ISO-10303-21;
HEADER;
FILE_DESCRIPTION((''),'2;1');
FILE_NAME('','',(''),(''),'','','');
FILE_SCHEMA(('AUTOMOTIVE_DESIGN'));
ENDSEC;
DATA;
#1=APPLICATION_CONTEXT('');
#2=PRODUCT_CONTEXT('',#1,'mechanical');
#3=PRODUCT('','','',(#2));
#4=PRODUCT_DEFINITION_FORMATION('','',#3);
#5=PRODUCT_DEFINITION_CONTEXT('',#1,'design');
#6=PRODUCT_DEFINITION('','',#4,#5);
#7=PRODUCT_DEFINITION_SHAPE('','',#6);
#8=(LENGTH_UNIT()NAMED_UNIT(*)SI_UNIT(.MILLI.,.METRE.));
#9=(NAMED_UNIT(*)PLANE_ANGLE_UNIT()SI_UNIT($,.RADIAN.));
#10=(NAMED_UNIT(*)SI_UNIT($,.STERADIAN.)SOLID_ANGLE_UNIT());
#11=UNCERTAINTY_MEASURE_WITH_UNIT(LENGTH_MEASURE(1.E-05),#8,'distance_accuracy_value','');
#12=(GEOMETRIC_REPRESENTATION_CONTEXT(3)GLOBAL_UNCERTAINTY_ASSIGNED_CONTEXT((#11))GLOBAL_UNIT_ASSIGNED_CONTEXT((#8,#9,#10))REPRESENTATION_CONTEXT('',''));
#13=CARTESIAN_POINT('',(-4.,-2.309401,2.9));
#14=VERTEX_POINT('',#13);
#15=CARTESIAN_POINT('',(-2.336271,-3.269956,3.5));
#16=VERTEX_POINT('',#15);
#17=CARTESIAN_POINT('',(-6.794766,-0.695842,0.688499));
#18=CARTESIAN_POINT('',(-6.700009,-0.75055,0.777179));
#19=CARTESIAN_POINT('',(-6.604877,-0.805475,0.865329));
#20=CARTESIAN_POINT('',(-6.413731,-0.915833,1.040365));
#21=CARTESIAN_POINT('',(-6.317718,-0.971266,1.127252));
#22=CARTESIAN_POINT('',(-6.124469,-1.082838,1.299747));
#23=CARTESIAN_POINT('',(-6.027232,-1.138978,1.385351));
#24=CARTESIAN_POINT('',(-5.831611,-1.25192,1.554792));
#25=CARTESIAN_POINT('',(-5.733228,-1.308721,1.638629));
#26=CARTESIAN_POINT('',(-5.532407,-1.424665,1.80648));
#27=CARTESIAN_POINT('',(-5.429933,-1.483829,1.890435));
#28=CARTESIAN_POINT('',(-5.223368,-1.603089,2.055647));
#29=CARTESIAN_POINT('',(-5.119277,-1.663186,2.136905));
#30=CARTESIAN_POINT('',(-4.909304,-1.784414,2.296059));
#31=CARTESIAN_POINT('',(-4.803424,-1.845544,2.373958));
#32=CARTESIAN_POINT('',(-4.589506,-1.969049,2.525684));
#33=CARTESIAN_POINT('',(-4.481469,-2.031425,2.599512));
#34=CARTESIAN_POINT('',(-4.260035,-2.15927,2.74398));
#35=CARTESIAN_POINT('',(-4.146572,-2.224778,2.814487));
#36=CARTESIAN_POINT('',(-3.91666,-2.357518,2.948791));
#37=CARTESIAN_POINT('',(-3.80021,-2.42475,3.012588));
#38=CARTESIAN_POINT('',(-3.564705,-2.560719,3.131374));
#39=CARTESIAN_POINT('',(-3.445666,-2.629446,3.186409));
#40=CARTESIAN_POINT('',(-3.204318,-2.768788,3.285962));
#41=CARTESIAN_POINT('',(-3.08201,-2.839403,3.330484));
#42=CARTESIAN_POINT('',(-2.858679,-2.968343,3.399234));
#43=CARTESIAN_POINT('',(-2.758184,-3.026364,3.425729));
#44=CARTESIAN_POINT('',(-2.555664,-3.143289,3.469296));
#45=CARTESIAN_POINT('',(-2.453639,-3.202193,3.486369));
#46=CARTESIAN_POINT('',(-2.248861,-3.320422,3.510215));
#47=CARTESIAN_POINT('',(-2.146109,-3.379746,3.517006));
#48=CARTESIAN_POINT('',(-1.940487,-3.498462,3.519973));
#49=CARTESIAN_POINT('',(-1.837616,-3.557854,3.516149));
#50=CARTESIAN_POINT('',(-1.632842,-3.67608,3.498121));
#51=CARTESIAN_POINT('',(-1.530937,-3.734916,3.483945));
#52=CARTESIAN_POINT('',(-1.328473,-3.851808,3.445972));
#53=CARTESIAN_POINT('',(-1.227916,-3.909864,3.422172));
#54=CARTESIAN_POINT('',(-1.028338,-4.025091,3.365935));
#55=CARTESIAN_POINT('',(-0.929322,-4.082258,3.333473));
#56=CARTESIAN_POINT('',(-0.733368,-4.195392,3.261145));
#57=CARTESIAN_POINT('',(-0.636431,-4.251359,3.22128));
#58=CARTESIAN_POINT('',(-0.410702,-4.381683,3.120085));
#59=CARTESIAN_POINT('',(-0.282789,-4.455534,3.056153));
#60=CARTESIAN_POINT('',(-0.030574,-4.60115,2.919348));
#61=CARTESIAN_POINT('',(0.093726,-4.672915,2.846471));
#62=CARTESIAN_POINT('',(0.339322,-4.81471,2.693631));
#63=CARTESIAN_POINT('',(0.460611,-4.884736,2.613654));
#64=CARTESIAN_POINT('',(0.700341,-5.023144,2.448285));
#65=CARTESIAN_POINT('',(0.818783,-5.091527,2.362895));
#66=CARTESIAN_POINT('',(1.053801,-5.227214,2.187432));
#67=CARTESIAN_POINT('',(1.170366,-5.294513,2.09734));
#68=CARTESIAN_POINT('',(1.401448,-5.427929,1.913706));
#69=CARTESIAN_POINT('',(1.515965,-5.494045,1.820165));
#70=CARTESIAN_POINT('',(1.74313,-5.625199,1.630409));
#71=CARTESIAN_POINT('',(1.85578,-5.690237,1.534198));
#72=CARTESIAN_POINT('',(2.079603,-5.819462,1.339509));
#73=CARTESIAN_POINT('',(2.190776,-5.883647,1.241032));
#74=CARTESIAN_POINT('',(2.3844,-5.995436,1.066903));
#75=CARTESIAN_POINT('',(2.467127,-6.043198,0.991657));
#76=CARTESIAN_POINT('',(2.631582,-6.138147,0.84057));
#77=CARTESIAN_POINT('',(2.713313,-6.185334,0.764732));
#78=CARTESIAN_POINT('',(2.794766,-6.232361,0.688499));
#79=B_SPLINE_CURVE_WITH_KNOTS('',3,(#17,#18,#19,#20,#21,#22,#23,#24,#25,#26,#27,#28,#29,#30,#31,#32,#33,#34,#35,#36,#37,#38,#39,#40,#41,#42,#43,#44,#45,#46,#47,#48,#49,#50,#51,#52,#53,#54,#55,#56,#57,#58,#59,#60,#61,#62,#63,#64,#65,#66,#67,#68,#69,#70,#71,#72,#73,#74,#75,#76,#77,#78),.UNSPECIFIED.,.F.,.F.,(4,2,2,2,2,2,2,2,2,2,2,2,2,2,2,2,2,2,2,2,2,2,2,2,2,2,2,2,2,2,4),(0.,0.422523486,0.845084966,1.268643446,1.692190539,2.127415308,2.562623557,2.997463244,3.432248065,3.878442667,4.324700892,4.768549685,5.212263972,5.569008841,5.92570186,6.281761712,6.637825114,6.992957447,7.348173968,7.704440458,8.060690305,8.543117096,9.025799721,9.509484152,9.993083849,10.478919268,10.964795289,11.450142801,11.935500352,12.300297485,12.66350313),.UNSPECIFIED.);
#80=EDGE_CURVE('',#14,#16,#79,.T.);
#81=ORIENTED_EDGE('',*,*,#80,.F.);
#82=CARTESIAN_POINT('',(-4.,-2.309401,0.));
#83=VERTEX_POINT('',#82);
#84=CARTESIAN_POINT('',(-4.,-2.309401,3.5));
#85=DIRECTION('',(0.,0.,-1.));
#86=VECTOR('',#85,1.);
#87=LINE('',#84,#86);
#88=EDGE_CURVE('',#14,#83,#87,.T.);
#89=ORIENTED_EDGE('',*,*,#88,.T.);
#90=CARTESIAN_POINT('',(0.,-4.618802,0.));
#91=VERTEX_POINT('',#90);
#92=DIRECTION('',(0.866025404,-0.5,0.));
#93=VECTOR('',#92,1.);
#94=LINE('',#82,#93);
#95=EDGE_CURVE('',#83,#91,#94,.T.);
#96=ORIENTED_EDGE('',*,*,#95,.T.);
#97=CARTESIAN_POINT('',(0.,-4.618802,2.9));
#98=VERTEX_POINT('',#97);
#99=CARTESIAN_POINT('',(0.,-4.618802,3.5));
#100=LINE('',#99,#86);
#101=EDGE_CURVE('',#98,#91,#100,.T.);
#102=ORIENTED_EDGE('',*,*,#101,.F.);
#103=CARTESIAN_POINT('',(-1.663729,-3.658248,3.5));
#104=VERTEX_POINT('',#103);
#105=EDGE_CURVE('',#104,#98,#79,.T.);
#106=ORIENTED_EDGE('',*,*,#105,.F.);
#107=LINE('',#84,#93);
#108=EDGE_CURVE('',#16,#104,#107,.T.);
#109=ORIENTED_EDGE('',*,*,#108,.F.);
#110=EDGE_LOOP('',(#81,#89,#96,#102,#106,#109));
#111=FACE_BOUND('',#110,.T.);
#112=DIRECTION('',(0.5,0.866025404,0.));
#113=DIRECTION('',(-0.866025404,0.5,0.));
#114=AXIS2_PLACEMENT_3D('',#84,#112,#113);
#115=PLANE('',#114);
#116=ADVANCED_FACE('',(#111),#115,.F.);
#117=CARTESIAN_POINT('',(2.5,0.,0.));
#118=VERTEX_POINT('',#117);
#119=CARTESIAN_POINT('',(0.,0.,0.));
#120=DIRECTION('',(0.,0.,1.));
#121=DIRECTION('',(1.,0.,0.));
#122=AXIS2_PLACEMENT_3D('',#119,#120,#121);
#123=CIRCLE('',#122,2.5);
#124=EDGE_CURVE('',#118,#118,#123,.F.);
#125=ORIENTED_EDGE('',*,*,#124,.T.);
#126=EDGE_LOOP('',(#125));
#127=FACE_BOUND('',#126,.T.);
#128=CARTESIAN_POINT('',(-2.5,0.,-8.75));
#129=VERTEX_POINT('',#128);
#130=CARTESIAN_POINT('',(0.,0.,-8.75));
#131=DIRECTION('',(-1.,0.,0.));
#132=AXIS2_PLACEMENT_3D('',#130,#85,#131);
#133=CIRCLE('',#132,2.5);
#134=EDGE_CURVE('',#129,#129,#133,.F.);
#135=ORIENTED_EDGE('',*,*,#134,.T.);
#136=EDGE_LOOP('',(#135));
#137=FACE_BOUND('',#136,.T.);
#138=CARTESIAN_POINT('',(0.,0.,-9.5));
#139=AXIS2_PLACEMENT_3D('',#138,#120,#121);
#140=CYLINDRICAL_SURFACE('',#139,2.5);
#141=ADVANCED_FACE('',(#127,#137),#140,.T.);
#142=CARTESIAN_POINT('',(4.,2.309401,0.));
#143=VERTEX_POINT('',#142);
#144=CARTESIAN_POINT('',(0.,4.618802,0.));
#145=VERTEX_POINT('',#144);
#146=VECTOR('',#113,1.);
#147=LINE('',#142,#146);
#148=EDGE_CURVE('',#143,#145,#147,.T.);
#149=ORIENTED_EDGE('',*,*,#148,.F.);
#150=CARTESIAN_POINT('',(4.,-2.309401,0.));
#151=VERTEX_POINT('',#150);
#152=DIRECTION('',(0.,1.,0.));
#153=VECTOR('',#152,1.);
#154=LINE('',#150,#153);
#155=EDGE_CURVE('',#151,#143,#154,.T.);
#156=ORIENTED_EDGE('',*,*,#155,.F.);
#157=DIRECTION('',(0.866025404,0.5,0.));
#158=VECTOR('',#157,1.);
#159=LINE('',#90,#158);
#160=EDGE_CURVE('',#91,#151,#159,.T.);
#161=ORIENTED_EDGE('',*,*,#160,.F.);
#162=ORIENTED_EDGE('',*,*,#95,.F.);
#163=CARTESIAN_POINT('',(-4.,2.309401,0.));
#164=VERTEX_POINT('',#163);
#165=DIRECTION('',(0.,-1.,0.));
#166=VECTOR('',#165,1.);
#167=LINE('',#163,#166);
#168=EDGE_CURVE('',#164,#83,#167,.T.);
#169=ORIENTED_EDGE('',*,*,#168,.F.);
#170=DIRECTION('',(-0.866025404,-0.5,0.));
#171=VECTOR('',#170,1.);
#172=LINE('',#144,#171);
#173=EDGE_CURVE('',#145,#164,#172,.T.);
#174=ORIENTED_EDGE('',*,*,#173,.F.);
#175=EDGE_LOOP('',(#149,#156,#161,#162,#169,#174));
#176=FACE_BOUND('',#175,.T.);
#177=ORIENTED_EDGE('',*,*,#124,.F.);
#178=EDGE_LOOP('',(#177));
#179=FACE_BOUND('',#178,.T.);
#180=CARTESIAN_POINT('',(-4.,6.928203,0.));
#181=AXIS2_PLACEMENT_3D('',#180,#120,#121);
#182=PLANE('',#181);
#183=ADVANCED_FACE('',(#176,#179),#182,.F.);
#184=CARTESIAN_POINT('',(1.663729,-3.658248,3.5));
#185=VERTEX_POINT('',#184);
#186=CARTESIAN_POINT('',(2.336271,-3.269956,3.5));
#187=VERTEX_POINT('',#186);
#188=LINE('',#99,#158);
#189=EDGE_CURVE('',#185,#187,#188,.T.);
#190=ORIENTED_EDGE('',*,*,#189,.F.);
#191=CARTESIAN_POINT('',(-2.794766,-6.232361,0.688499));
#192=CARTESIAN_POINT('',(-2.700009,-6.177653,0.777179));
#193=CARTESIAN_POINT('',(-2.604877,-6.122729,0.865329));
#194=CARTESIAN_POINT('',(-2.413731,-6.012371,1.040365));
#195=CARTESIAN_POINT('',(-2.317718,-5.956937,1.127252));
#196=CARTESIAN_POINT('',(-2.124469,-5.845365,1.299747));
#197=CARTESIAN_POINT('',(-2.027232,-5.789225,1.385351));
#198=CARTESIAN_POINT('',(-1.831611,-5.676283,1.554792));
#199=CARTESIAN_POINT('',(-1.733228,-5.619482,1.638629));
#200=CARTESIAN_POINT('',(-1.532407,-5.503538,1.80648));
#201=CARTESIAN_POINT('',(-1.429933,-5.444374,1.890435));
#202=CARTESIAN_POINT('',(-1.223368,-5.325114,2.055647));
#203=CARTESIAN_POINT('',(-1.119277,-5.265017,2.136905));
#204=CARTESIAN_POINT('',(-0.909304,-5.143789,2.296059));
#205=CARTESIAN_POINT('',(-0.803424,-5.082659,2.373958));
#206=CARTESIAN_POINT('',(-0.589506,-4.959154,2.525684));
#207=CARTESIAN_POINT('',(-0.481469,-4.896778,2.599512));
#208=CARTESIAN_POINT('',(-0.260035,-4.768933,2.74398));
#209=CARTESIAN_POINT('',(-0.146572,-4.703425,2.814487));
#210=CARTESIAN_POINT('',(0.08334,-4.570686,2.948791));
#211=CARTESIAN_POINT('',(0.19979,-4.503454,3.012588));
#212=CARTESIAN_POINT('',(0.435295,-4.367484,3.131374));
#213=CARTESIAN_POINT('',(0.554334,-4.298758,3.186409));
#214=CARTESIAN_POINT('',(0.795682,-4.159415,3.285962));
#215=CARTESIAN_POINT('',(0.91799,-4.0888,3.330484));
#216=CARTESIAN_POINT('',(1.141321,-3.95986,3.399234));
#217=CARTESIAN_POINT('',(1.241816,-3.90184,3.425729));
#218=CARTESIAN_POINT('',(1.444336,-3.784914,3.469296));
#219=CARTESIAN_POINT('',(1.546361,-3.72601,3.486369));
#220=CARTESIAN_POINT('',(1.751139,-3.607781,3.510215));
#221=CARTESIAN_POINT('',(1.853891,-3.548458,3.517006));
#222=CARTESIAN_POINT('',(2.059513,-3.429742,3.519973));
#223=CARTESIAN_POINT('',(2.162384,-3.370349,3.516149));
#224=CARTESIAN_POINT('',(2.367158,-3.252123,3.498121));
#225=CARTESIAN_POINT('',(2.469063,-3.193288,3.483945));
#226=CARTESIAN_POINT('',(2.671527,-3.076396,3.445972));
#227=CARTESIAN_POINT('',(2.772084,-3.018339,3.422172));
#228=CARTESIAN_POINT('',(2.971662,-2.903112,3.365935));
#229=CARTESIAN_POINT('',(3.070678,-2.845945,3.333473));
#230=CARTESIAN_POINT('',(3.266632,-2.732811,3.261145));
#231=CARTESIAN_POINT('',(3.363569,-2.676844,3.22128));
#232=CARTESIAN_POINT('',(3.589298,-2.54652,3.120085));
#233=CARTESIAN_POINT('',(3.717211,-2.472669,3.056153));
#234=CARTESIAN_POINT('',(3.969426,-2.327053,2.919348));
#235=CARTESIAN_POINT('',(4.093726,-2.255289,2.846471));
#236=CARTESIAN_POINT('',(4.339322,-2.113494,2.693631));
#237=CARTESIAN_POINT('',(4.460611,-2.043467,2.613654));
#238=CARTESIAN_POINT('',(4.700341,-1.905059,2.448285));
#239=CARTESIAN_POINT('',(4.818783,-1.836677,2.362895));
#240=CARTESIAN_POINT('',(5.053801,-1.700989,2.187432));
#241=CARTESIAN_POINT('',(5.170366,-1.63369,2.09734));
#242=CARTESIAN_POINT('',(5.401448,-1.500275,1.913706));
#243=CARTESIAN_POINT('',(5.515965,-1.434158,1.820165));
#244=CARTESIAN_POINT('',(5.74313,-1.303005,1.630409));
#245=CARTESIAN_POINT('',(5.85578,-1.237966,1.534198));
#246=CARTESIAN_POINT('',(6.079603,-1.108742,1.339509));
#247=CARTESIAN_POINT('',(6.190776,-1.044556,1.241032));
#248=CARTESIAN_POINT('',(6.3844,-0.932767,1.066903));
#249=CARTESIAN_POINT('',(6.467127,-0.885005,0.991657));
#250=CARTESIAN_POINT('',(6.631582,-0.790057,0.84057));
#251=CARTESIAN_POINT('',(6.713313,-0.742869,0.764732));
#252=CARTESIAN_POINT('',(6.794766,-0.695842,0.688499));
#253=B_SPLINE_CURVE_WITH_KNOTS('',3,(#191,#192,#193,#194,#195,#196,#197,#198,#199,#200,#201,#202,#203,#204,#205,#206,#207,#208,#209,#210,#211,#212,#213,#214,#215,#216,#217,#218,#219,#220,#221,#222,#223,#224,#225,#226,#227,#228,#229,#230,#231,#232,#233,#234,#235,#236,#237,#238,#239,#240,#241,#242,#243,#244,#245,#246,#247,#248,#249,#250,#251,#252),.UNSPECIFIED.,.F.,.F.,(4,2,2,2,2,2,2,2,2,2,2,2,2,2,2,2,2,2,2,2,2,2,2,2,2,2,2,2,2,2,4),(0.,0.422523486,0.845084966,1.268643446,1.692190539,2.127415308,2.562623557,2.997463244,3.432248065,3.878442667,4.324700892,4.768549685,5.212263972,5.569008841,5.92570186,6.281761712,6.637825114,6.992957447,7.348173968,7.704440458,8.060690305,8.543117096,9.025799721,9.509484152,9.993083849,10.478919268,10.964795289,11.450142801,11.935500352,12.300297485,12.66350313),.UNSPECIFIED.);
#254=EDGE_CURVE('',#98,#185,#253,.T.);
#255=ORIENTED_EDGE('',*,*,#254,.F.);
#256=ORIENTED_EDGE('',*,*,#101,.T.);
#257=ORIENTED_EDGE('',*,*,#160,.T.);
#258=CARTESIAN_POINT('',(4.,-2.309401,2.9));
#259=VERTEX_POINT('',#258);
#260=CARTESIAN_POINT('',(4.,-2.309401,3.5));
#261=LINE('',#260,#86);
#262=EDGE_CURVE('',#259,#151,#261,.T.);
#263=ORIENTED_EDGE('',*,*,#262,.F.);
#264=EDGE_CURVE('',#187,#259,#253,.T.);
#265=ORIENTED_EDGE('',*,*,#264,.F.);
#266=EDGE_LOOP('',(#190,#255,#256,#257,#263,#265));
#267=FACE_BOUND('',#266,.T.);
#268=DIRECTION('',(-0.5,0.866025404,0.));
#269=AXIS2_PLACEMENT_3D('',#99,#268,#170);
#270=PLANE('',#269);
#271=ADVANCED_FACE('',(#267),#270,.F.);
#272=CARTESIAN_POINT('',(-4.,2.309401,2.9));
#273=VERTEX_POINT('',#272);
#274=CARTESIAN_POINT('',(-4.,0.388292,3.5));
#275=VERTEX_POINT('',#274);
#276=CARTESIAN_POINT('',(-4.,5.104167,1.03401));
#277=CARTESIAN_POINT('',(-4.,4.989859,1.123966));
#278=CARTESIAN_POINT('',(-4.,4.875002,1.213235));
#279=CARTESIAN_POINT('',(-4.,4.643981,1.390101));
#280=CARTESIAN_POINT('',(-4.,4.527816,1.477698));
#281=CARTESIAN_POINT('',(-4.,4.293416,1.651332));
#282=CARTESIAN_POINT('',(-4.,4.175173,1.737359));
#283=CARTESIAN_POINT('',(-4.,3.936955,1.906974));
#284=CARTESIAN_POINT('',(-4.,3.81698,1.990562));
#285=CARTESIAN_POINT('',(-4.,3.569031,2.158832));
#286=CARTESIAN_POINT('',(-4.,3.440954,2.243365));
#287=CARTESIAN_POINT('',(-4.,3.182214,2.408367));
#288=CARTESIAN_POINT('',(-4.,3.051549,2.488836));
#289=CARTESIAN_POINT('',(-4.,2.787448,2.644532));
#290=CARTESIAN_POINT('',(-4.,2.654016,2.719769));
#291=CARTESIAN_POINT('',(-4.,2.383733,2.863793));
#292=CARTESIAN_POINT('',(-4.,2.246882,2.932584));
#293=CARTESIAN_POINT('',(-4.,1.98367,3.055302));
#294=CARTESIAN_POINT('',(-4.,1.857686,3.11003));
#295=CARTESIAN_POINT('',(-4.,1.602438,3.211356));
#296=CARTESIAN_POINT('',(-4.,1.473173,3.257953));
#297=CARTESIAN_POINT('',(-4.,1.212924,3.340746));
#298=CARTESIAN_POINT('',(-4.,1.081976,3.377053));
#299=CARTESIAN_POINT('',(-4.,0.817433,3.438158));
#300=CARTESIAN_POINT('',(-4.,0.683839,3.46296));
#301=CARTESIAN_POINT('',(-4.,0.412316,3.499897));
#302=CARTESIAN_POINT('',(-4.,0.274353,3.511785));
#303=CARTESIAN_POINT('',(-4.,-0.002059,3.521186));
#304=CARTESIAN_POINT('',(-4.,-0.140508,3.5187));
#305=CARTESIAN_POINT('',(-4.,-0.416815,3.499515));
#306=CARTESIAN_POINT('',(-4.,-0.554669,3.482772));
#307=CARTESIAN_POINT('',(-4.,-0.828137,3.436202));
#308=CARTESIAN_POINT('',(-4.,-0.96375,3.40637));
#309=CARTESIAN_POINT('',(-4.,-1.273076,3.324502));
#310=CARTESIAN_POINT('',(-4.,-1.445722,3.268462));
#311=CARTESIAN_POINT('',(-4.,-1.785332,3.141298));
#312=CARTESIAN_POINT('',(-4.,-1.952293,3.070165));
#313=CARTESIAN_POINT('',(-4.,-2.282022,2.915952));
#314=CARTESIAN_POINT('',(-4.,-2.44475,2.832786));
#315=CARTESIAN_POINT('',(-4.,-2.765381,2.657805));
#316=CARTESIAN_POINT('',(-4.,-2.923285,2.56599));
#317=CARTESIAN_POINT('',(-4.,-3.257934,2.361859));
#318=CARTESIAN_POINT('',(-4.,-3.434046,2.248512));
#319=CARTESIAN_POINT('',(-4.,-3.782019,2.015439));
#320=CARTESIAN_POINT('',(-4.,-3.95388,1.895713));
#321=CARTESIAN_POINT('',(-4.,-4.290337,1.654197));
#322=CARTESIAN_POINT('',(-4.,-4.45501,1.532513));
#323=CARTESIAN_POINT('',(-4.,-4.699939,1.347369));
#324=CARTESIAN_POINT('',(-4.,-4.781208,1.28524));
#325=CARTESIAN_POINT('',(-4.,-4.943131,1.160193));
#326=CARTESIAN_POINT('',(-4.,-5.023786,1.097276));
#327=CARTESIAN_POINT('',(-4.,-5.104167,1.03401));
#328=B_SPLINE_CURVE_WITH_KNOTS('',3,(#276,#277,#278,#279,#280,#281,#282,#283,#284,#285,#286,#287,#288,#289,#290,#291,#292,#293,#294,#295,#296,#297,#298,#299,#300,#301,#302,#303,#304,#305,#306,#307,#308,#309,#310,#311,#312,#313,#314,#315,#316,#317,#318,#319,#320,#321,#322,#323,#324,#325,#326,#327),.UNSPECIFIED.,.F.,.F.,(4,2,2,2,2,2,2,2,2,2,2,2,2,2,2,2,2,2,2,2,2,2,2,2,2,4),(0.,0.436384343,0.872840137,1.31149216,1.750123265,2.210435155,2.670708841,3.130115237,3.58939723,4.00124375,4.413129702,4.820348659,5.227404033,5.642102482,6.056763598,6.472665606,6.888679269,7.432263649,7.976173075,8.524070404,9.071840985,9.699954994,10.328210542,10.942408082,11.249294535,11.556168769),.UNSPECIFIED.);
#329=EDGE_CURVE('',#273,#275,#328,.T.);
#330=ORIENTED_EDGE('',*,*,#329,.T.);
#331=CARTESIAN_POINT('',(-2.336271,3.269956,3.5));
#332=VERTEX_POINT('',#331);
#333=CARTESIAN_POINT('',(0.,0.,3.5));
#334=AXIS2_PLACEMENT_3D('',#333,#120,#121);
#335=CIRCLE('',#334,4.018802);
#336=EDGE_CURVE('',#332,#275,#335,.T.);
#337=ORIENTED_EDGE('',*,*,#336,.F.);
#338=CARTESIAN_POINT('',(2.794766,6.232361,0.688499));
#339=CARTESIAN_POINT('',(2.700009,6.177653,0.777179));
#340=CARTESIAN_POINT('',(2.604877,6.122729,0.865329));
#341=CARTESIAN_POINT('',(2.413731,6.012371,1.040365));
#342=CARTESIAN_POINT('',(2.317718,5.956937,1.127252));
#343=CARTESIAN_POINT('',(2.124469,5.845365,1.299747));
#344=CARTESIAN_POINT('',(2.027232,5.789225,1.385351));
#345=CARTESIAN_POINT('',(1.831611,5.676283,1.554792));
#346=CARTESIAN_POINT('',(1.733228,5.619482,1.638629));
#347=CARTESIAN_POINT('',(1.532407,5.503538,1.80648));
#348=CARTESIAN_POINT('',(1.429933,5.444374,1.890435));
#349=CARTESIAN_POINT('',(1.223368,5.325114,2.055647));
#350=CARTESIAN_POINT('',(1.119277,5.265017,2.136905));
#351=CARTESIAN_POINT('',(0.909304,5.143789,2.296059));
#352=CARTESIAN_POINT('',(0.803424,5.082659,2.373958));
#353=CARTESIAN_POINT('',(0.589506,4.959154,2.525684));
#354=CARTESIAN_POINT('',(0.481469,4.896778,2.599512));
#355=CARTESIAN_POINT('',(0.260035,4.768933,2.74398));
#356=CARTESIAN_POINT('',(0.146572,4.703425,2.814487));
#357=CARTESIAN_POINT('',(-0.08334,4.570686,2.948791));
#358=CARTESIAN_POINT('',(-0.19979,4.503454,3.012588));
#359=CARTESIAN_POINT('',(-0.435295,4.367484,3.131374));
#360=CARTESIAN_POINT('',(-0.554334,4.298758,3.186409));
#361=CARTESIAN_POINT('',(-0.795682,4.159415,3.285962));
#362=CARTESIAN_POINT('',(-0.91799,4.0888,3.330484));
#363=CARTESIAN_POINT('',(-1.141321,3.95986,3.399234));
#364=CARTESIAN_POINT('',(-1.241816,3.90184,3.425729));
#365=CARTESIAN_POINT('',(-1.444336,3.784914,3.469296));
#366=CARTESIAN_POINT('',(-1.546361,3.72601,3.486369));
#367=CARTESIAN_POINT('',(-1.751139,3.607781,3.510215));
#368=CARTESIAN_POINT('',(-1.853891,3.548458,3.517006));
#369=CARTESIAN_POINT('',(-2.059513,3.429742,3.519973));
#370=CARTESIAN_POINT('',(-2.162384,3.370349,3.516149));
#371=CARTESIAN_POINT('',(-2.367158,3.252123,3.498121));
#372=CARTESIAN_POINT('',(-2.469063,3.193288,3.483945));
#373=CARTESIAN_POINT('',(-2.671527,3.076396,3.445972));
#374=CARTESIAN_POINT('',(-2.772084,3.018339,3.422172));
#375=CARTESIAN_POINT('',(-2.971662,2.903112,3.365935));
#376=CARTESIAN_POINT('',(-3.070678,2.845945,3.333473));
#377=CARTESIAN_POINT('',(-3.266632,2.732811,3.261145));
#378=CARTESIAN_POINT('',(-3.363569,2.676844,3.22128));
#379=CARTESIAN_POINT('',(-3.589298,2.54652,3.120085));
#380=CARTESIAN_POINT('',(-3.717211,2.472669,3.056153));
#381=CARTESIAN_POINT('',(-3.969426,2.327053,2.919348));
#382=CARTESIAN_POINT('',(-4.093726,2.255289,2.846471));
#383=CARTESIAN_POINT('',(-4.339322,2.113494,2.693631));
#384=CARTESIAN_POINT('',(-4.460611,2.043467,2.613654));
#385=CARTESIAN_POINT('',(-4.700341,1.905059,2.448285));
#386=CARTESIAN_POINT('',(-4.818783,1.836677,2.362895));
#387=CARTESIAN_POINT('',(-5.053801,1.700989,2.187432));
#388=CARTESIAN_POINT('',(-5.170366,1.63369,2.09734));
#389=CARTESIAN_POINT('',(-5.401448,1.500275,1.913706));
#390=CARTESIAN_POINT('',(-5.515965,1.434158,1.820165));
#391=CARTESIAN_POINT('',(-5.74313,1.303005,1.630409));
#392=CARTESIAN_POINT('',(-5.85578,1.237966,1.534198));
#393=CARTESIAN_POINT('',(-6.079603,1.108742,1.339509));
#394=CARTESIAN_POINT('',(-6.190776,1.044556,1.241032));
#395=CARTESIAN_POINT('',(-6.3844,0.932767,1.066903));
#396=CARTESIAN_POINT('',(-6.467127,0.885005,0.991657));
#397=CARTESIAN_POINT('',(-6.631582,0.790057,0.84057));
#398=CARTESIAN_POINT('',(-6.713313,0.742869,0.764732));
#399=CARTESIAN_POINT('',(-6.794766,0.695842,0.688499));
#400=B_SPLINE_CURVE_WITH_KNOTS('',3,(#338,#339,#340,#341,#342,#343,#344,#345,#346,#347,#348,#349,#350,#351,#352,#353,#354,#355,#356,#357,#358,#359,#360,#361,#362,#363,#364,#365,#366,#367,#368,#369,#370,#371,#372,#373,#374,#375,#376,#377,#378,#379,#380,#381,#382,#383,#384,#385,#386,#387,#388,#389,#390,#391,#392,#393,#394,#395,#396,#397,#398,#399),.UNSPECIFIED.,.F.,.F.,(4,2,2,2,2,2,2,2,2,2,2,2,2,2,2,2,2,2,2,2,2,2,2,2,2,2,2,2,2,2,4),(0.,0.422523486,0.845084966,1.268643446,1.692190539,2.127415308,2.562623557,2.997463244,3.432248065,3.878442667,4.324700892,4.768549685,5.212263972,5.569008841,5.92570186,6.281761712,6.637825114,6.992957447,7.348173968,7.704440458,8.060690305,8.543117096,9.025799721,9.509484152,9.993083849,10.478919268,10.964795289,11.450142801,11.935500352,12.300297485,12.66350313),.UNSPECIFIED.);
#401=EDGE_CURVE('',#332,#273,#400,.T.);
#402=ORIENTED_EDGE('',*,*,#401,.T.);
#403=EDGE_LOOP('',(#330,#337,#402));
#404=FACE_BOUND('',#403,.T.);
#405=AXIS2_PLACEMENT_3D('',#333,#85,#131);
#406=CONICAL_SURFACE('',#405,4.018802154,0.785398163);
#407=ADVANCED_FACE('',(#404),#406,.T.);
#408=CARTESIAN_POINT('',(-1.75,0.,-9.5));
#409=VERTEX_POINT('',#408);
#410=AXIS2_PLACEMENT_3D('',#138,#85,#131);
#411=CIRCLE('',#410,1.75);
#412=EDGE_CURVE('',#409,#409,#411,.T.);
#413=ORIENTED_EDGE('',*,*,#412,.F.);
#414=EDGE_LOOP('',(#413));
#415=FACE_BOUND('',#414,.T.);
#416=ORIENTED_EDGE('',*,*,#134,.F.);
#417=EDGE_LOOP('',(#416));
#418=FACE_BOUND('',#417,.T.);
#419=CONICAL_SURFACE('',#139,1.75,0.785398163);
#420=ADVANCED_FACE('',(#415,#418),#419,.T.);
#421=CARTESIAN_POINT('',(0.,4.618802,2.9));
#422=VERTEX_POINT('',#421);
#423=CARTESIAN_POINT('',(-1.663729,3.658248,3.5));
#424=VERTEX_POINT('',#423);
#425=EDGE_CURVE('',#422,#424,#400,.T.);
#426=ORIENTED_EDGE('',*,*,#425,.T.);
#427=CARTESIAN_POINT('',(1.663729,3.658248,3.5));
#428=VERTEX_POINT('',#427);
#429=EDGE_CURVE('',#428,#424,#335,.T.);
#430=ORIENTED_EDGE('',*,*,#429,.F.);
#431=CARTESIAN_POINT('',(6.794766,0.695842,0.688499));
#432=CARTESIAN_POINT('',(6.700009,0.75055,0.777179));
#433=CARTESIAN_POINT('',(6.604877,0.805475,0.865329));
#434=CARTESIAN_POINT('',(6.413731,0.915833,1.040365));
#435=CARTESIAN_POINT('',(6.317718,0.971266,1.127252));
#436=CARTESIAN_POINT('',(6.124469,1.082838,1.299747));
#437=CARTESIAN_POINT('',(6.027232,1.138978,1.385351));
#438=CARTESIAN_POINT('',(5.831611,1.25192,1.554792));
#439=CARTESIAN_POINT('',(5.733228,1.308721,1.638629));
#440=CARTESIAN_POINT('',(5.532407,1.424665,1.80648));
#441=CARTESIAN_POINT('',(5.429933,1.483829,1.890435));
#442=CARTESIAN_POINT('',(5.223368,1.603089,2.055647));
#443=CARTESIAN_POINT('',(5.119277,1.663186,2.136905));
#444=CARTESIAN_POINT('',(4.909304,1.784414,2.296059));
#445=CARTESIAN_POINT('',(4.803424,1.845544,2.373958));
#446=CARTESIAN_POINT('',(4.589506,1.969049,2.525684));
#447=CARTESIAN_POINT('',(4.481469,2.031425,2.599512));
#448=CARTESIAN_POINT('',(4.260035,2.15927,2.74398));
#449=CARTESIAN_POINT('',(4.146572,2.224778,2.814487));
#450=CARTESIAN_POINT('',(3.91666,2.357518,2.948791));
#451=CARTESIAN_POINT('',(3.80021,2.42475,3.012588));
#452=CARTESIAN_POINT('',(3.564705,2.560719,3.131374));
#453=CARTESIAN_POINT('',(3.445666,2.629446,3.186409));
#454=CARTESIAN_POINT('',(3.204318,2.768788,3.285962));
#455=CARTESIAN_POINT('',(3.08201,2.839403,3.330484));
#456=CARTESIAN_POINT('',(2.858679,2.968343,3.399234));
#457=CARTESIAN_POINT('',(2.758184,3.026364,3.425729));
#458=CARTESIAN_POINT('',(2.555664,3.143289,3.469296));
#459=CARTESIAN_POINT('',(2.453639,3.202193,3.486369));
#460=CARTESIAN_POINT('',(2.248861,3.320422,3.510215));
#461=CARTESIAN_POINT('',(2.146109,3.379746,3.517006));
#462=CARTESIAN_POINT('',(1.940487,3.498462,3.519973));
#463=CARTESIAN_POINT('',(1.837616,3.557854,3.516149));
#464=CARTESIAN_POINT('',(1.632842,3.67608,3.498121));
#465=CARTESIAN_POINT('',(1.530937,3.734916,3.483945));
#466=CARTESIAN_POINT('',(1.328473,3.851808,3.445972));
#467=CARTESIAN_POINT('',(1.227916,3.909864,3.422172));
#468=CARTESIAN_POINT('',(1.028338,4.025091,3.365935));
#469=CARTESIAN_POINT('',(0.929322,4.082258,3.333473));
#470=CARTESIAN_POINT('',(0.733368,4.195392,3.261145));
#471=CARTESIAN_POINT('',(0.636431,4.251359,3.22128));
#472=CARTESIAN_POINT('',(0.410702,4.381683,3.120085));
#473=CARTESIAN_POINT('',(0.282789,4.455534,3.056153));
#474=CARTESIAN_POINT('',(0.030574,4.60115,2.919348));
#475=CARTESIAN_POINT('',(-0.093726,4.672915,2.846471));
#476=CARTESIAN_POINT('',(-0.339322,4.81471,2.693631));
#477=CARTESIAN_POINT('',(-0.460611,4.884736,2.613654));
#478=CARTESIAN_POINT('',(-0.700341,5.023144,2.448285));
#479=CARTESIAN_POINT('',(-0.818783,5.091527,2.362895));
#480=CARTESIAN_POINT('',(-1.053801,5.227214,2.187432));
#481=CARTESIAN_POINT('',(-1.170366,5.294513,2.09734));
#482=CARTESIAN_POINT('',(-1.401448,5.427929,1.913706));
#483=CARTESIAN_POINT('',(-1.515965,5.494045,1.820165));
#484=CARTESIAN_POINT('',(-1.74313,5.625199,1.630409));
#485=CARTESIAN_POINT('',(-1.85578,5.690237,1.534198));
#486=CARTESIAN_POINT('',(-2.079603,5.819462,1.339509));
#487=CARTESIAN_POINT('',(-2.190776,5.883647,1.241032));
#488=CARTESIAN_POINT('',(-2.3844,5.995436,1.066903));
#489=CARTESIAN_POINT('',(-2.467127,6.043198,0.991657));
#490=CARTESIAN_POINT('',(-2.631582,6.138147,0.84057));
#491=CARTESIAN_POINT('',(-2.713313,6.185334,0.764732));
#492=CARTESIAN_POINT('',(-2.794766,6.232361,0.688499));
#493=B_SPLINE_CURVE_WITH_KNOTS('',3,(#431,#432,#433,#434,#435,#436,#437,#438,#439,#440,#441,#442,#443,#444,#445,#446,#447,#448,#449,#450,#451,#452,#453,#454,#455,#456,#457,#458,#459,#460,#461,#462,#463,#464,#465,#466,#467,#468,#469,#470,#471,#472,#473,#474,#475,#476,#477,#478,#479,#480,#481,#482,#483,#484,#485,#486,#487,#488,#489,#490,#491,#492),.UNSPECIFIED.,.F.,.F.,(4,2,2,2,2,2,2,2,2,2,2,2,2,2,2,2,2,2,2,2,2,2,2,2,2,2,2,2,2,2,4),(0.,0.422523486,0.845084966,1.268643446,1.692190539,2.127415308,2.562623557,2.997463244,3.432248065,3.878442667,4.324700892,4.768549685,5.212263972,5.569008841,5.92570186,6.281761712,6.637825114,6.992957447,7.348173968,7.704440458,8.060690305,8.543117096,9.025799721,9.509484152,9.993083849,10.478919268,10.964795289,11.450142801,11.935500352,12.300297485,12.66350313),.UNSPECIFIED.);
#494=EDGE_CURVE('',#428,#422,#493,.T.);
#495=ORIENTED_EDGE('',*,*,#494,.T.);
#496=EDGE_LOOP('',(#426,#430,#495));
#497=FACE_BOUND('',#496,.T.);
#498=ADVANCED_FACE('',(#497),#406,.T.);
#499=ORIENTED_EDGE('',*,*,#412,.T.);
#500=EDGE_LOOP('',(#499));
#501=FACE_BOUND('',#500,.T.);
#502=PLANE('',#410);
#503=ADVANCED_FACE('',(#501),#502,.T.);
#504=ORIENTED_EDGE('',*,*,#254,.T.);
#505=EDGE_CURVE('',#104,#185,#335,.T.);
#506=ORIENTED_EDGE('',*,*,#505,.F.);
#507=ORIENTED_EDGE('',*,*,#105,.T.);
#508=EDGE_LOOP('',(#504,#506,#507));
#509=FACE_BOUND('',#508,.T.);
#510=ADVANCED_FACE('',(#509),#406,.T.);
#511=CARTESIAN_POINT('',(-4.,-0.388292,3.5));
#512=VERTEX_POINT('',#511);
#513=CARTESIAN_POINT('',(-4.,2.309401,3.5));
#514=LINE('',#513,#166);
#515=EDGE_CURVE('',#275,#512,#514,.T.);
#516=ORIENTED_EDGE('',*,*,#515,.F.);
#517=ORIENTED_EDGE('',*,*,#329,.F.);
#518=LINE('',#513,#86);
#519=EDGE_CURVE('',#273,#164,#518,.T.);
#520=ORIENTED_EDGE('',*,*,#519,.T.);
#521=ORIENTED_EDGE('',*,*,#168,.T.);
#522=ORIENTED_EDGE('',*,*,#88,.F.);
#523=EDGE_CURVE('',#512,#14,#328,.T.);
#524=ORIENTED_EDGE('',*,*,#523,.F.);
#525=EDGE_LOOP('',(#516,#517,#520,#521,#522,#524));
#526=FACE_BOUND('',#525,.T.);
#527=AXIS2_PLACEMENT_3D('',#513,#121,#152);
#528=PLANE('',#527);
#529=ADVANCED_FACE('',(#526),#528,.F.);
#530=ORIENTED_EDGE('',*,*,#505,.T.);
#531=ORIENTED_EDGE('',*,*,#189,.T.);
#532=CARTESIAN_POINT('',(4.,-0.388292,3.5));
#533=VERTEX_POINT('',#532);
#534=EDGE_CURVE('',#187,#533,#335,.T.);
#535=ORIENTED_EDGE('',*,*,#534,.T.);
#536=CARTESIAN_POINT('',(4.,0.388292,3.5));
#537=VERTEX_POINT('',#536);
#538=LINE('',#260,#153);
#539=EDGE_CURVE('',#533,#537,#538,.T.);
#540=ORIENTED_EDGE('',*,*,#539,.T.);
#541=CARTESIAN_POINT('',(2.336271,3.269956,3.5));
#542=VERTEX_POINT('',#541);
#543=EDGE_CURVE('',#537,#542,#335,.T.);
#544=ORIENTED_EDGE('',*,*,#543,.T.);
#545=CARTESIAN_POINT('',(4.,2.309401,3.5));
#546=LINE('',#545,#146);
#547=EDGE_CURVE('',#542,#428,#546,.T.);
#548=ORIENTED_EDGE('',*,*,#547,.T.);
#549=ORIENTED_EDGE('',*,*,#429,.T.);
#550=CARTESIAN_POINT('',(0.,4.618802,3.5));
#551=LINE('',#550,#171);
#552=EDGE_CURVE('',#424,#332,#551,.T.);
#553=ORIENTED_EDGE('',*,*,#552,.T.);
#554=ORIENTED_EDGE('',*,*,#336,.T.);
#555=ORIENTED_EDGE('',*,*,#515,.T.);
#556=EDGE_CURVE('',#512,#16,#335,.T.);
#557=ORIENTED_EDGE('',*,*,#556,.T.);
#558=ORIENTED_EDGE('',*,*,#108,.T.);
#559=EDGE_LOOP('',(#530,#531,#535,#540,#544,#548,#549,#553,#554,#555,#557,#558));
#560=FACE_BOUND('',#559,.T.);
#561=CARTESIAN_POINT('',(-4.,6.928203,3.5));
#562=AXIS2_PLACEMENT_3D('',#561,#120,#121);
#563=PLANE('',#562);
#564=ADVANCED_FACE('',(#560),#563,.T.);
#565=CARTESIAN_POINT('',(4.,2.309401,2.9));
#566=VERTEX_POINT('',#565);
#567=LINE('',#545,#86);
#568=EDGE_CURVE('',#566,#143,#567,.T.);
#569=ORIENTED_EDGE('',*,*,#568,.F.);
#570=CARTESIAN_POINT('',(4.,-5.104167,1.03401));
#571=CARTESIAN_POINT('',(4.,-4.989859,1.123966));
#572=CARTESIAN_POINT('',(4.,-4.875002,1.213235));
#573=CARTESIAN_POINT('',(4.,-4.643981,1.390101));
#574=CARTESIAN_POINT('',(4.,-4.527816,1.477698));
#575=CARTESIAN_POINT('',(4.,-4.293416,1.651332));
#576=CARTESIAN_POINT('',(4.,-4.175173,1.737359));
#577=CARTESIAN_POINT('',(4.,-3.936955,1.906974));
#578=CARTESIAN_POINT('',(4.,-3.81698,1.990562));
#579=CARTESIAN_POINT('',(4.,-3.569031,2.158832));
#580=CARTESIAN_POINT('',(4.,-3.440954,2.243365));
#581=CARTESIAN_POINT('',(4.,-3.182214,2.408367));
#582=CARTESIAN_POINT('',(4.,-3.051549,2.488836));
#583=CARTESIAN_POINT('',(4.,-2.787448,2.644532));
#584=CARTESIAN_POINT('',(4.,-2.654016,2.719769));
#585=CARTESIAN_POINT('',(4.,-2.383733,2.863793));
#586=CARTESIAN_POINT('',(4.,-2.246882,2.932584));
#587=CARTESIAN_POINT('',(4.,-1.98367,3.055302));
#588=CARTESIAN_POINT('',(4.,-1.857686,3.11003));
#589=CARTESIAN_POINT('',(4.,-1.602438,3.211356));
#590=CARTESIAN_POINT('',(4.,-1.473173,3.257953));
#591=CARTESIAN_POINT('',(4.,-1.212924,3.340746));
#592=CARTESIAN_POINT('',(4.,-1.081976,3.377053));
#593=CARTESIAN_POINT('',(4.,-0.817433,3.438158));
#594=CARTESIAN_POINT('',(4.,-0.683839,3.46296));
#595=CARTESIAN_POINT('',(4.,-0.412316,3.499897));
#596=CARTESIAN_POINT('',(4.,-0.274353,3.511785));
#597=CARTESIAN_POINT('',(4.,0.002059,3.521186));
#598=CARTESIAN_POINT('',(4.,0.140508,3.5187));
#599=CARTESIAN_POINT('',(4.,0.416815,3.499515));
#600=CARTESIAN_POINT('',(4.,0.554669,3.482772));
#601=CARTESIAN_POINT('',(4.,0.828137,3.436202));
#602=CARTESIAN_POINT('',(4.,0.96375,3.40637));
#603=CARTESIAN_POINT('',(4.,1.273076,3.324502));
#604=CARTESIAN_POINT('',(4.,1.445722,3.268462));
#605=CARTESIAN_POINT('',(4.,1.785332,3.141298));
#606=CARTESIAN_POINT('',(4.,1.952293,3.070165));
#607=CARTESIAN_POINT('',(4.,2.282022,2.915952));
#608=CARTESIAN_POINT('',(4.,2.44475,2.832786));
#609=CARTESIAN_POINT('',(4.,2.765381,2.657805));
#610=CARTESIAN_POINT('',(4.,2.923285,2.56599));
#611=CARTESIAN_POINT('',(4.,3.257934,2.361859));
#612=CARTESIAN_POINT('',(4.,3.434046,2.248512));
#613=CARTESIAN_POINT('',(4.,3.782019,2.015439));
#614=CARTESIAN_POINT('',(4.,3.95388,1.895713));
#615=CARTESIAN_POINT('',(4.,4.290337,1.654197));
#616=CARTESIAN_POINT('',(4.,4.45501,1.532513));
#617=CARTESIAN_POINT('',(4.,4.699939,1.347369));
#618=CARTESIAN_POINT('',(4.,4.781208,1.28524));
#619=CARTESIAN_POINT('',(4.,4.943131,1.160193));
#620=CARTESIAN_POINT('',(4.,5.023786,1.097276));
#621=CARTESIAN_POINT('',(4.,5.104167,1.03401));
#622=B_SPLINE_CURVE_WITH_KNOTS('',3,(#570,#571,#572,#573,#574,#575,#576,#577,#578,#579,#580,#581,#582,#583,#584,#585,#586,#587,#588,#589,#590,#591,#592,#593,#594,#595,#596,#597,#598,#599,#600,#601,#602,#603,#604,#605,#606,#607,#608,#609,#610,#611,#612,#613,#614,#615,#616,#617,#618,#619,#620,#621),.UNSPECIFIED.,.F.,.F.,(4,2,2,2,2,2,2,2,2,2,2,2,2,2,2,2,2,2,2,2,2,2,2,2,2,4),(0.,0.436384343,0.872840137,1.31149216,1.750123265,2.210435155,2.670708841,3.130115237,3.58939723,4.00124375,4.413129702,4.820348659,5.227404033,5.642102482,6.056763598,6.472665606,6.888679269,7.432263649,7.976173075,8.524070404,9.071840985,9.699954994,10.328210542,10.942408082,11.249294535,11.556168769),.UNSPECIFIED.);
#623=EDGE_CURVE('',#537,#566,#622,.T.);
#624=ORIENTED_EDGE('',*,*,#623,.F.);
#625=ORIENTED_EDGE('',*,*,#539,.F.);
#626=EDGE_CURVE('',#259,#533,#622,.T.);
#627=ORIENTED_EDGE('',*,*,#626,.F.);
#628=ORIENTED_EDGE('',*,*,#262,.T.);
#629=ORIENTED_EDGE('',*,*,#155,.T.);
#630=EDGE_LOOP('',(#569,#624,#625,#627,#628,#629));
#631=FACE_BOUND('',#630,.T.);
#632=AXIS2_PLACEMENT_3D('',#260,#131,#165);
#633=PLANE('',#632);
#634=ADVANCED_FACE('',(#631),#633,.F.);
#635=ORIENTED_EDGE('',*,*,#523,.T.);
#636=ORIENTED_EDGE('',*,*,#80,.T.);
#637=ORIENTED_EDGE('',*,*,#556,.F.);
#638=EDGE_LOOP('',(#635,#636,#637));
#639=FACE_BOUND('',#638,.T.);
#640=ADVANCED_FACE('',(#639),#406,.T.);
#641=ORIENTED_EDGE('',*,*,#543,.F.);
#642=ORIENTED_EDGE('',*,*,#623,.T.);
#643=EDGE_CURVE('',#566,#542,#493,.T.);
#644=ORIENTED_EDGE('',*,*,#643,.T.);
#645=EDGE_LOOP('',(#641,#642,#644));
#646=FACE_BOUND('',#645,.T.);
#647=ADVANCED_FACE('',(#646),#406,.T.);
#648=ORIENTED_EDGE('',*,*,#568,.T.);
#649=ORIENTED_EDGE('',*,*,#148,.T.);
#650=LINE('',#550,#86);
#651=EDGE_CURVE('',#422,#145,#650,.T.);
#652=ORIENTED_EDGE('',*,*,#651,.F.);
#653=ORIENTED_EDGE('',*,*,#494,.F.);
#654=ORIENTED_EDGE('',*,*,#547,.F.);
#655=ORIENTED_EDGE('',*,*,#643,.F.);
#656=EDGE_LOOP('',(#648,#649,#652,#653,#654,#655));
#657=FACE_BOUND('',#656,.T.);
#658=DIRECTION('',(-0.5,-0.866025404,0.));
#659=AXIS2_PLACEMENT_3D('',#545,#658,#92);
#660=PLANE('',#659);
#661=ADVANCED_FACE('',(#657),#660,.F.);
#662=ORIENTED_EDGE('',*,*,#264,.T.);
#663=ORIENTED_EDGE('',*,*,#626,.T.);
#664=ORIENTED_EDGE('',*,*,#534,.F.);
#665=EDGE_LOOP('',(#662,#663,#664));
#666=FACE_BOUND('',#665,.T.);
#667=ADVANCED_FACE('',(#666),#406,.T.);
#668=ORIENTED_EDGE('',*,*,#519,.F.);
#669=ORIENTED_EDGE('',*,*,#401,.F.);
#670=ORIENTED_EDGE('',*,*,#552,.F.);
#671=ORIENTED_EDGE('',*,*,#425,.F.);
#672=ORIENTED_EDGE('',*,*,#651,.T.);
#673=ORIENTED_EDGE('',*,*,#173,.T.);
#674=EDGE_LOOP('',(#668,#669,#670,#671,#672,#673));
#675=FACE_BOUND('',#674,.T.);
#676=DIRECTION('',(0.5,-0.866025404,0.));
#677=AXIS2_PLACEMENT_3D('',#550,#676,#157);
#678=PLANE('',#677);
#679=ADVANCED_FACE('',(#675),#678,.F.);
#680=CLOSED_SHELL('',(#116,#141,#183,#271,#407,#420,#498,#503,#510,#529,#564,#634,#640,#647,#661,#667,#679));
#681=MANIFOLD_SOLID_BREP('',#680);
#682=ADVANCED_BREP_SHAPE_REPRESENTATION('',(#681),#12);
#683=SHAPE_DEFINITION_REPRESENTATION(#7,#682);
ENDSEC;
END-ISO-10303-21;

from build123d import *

# Parameters (mm, degrees)
EXTRUDE_1_DEPTH = 3.5
SKETCH_2_R      = 2.5
EXTRUDE_2_DEPTH = 9.5
CHAMFER_1_SIZE  = 0.75


with BuildPart() as part:
    # Эскиз1 → Вытянуть1 (new body)
    with BuildSketch(Plane.XY):
        Polygon((0, 4.618802154), (-4, 2.309401077), (-4, -2.309401077), (0, -4.618802154), (4, -2.309401077), (4, 2.309401077), align=None)
    extrude(amount=EXTRUDE_1_DEPTH)

    # Эскиз2 → Вытянуть2 (add)
    with BuildSketch(Plane(origin=(0, 0, 0), x_dir=(-1, 0, 0), z_dir=(0, 0, -1))):
        with Locations(Location((0, 0, 0), (0, 0, 180))):
            Circle(SKETCH_2_R)
    extrude(amount=EXTRUDE_2_DEPTH)

    # Эскиз15 → Вырез-Повернуть1 (revolve, cut)
    with BuildSketch(Plane(origin=(0, 0, 0), x_dir=(0, 0, -1), z_dir=(1, 0, 0))):
        Polygon((-3.5, 4.618802154), (-3.5, 4.018802154), (-2.9, 4.618802154), align=None)
    revolve(axis=Axis((0, 0, 2.965296569), (0, 0, -1)), mode=Mode.SUBTRACT)

    # Фаска1
    chamfer_1_edges = [part.edges().sort_by_distance(p)[0] for p in [
        (-2.5, 0, -9.5),
    ]]
    chamfer(chamfer_1_edges, length=CHAMFER_1_SIZE)


solid = part.part
